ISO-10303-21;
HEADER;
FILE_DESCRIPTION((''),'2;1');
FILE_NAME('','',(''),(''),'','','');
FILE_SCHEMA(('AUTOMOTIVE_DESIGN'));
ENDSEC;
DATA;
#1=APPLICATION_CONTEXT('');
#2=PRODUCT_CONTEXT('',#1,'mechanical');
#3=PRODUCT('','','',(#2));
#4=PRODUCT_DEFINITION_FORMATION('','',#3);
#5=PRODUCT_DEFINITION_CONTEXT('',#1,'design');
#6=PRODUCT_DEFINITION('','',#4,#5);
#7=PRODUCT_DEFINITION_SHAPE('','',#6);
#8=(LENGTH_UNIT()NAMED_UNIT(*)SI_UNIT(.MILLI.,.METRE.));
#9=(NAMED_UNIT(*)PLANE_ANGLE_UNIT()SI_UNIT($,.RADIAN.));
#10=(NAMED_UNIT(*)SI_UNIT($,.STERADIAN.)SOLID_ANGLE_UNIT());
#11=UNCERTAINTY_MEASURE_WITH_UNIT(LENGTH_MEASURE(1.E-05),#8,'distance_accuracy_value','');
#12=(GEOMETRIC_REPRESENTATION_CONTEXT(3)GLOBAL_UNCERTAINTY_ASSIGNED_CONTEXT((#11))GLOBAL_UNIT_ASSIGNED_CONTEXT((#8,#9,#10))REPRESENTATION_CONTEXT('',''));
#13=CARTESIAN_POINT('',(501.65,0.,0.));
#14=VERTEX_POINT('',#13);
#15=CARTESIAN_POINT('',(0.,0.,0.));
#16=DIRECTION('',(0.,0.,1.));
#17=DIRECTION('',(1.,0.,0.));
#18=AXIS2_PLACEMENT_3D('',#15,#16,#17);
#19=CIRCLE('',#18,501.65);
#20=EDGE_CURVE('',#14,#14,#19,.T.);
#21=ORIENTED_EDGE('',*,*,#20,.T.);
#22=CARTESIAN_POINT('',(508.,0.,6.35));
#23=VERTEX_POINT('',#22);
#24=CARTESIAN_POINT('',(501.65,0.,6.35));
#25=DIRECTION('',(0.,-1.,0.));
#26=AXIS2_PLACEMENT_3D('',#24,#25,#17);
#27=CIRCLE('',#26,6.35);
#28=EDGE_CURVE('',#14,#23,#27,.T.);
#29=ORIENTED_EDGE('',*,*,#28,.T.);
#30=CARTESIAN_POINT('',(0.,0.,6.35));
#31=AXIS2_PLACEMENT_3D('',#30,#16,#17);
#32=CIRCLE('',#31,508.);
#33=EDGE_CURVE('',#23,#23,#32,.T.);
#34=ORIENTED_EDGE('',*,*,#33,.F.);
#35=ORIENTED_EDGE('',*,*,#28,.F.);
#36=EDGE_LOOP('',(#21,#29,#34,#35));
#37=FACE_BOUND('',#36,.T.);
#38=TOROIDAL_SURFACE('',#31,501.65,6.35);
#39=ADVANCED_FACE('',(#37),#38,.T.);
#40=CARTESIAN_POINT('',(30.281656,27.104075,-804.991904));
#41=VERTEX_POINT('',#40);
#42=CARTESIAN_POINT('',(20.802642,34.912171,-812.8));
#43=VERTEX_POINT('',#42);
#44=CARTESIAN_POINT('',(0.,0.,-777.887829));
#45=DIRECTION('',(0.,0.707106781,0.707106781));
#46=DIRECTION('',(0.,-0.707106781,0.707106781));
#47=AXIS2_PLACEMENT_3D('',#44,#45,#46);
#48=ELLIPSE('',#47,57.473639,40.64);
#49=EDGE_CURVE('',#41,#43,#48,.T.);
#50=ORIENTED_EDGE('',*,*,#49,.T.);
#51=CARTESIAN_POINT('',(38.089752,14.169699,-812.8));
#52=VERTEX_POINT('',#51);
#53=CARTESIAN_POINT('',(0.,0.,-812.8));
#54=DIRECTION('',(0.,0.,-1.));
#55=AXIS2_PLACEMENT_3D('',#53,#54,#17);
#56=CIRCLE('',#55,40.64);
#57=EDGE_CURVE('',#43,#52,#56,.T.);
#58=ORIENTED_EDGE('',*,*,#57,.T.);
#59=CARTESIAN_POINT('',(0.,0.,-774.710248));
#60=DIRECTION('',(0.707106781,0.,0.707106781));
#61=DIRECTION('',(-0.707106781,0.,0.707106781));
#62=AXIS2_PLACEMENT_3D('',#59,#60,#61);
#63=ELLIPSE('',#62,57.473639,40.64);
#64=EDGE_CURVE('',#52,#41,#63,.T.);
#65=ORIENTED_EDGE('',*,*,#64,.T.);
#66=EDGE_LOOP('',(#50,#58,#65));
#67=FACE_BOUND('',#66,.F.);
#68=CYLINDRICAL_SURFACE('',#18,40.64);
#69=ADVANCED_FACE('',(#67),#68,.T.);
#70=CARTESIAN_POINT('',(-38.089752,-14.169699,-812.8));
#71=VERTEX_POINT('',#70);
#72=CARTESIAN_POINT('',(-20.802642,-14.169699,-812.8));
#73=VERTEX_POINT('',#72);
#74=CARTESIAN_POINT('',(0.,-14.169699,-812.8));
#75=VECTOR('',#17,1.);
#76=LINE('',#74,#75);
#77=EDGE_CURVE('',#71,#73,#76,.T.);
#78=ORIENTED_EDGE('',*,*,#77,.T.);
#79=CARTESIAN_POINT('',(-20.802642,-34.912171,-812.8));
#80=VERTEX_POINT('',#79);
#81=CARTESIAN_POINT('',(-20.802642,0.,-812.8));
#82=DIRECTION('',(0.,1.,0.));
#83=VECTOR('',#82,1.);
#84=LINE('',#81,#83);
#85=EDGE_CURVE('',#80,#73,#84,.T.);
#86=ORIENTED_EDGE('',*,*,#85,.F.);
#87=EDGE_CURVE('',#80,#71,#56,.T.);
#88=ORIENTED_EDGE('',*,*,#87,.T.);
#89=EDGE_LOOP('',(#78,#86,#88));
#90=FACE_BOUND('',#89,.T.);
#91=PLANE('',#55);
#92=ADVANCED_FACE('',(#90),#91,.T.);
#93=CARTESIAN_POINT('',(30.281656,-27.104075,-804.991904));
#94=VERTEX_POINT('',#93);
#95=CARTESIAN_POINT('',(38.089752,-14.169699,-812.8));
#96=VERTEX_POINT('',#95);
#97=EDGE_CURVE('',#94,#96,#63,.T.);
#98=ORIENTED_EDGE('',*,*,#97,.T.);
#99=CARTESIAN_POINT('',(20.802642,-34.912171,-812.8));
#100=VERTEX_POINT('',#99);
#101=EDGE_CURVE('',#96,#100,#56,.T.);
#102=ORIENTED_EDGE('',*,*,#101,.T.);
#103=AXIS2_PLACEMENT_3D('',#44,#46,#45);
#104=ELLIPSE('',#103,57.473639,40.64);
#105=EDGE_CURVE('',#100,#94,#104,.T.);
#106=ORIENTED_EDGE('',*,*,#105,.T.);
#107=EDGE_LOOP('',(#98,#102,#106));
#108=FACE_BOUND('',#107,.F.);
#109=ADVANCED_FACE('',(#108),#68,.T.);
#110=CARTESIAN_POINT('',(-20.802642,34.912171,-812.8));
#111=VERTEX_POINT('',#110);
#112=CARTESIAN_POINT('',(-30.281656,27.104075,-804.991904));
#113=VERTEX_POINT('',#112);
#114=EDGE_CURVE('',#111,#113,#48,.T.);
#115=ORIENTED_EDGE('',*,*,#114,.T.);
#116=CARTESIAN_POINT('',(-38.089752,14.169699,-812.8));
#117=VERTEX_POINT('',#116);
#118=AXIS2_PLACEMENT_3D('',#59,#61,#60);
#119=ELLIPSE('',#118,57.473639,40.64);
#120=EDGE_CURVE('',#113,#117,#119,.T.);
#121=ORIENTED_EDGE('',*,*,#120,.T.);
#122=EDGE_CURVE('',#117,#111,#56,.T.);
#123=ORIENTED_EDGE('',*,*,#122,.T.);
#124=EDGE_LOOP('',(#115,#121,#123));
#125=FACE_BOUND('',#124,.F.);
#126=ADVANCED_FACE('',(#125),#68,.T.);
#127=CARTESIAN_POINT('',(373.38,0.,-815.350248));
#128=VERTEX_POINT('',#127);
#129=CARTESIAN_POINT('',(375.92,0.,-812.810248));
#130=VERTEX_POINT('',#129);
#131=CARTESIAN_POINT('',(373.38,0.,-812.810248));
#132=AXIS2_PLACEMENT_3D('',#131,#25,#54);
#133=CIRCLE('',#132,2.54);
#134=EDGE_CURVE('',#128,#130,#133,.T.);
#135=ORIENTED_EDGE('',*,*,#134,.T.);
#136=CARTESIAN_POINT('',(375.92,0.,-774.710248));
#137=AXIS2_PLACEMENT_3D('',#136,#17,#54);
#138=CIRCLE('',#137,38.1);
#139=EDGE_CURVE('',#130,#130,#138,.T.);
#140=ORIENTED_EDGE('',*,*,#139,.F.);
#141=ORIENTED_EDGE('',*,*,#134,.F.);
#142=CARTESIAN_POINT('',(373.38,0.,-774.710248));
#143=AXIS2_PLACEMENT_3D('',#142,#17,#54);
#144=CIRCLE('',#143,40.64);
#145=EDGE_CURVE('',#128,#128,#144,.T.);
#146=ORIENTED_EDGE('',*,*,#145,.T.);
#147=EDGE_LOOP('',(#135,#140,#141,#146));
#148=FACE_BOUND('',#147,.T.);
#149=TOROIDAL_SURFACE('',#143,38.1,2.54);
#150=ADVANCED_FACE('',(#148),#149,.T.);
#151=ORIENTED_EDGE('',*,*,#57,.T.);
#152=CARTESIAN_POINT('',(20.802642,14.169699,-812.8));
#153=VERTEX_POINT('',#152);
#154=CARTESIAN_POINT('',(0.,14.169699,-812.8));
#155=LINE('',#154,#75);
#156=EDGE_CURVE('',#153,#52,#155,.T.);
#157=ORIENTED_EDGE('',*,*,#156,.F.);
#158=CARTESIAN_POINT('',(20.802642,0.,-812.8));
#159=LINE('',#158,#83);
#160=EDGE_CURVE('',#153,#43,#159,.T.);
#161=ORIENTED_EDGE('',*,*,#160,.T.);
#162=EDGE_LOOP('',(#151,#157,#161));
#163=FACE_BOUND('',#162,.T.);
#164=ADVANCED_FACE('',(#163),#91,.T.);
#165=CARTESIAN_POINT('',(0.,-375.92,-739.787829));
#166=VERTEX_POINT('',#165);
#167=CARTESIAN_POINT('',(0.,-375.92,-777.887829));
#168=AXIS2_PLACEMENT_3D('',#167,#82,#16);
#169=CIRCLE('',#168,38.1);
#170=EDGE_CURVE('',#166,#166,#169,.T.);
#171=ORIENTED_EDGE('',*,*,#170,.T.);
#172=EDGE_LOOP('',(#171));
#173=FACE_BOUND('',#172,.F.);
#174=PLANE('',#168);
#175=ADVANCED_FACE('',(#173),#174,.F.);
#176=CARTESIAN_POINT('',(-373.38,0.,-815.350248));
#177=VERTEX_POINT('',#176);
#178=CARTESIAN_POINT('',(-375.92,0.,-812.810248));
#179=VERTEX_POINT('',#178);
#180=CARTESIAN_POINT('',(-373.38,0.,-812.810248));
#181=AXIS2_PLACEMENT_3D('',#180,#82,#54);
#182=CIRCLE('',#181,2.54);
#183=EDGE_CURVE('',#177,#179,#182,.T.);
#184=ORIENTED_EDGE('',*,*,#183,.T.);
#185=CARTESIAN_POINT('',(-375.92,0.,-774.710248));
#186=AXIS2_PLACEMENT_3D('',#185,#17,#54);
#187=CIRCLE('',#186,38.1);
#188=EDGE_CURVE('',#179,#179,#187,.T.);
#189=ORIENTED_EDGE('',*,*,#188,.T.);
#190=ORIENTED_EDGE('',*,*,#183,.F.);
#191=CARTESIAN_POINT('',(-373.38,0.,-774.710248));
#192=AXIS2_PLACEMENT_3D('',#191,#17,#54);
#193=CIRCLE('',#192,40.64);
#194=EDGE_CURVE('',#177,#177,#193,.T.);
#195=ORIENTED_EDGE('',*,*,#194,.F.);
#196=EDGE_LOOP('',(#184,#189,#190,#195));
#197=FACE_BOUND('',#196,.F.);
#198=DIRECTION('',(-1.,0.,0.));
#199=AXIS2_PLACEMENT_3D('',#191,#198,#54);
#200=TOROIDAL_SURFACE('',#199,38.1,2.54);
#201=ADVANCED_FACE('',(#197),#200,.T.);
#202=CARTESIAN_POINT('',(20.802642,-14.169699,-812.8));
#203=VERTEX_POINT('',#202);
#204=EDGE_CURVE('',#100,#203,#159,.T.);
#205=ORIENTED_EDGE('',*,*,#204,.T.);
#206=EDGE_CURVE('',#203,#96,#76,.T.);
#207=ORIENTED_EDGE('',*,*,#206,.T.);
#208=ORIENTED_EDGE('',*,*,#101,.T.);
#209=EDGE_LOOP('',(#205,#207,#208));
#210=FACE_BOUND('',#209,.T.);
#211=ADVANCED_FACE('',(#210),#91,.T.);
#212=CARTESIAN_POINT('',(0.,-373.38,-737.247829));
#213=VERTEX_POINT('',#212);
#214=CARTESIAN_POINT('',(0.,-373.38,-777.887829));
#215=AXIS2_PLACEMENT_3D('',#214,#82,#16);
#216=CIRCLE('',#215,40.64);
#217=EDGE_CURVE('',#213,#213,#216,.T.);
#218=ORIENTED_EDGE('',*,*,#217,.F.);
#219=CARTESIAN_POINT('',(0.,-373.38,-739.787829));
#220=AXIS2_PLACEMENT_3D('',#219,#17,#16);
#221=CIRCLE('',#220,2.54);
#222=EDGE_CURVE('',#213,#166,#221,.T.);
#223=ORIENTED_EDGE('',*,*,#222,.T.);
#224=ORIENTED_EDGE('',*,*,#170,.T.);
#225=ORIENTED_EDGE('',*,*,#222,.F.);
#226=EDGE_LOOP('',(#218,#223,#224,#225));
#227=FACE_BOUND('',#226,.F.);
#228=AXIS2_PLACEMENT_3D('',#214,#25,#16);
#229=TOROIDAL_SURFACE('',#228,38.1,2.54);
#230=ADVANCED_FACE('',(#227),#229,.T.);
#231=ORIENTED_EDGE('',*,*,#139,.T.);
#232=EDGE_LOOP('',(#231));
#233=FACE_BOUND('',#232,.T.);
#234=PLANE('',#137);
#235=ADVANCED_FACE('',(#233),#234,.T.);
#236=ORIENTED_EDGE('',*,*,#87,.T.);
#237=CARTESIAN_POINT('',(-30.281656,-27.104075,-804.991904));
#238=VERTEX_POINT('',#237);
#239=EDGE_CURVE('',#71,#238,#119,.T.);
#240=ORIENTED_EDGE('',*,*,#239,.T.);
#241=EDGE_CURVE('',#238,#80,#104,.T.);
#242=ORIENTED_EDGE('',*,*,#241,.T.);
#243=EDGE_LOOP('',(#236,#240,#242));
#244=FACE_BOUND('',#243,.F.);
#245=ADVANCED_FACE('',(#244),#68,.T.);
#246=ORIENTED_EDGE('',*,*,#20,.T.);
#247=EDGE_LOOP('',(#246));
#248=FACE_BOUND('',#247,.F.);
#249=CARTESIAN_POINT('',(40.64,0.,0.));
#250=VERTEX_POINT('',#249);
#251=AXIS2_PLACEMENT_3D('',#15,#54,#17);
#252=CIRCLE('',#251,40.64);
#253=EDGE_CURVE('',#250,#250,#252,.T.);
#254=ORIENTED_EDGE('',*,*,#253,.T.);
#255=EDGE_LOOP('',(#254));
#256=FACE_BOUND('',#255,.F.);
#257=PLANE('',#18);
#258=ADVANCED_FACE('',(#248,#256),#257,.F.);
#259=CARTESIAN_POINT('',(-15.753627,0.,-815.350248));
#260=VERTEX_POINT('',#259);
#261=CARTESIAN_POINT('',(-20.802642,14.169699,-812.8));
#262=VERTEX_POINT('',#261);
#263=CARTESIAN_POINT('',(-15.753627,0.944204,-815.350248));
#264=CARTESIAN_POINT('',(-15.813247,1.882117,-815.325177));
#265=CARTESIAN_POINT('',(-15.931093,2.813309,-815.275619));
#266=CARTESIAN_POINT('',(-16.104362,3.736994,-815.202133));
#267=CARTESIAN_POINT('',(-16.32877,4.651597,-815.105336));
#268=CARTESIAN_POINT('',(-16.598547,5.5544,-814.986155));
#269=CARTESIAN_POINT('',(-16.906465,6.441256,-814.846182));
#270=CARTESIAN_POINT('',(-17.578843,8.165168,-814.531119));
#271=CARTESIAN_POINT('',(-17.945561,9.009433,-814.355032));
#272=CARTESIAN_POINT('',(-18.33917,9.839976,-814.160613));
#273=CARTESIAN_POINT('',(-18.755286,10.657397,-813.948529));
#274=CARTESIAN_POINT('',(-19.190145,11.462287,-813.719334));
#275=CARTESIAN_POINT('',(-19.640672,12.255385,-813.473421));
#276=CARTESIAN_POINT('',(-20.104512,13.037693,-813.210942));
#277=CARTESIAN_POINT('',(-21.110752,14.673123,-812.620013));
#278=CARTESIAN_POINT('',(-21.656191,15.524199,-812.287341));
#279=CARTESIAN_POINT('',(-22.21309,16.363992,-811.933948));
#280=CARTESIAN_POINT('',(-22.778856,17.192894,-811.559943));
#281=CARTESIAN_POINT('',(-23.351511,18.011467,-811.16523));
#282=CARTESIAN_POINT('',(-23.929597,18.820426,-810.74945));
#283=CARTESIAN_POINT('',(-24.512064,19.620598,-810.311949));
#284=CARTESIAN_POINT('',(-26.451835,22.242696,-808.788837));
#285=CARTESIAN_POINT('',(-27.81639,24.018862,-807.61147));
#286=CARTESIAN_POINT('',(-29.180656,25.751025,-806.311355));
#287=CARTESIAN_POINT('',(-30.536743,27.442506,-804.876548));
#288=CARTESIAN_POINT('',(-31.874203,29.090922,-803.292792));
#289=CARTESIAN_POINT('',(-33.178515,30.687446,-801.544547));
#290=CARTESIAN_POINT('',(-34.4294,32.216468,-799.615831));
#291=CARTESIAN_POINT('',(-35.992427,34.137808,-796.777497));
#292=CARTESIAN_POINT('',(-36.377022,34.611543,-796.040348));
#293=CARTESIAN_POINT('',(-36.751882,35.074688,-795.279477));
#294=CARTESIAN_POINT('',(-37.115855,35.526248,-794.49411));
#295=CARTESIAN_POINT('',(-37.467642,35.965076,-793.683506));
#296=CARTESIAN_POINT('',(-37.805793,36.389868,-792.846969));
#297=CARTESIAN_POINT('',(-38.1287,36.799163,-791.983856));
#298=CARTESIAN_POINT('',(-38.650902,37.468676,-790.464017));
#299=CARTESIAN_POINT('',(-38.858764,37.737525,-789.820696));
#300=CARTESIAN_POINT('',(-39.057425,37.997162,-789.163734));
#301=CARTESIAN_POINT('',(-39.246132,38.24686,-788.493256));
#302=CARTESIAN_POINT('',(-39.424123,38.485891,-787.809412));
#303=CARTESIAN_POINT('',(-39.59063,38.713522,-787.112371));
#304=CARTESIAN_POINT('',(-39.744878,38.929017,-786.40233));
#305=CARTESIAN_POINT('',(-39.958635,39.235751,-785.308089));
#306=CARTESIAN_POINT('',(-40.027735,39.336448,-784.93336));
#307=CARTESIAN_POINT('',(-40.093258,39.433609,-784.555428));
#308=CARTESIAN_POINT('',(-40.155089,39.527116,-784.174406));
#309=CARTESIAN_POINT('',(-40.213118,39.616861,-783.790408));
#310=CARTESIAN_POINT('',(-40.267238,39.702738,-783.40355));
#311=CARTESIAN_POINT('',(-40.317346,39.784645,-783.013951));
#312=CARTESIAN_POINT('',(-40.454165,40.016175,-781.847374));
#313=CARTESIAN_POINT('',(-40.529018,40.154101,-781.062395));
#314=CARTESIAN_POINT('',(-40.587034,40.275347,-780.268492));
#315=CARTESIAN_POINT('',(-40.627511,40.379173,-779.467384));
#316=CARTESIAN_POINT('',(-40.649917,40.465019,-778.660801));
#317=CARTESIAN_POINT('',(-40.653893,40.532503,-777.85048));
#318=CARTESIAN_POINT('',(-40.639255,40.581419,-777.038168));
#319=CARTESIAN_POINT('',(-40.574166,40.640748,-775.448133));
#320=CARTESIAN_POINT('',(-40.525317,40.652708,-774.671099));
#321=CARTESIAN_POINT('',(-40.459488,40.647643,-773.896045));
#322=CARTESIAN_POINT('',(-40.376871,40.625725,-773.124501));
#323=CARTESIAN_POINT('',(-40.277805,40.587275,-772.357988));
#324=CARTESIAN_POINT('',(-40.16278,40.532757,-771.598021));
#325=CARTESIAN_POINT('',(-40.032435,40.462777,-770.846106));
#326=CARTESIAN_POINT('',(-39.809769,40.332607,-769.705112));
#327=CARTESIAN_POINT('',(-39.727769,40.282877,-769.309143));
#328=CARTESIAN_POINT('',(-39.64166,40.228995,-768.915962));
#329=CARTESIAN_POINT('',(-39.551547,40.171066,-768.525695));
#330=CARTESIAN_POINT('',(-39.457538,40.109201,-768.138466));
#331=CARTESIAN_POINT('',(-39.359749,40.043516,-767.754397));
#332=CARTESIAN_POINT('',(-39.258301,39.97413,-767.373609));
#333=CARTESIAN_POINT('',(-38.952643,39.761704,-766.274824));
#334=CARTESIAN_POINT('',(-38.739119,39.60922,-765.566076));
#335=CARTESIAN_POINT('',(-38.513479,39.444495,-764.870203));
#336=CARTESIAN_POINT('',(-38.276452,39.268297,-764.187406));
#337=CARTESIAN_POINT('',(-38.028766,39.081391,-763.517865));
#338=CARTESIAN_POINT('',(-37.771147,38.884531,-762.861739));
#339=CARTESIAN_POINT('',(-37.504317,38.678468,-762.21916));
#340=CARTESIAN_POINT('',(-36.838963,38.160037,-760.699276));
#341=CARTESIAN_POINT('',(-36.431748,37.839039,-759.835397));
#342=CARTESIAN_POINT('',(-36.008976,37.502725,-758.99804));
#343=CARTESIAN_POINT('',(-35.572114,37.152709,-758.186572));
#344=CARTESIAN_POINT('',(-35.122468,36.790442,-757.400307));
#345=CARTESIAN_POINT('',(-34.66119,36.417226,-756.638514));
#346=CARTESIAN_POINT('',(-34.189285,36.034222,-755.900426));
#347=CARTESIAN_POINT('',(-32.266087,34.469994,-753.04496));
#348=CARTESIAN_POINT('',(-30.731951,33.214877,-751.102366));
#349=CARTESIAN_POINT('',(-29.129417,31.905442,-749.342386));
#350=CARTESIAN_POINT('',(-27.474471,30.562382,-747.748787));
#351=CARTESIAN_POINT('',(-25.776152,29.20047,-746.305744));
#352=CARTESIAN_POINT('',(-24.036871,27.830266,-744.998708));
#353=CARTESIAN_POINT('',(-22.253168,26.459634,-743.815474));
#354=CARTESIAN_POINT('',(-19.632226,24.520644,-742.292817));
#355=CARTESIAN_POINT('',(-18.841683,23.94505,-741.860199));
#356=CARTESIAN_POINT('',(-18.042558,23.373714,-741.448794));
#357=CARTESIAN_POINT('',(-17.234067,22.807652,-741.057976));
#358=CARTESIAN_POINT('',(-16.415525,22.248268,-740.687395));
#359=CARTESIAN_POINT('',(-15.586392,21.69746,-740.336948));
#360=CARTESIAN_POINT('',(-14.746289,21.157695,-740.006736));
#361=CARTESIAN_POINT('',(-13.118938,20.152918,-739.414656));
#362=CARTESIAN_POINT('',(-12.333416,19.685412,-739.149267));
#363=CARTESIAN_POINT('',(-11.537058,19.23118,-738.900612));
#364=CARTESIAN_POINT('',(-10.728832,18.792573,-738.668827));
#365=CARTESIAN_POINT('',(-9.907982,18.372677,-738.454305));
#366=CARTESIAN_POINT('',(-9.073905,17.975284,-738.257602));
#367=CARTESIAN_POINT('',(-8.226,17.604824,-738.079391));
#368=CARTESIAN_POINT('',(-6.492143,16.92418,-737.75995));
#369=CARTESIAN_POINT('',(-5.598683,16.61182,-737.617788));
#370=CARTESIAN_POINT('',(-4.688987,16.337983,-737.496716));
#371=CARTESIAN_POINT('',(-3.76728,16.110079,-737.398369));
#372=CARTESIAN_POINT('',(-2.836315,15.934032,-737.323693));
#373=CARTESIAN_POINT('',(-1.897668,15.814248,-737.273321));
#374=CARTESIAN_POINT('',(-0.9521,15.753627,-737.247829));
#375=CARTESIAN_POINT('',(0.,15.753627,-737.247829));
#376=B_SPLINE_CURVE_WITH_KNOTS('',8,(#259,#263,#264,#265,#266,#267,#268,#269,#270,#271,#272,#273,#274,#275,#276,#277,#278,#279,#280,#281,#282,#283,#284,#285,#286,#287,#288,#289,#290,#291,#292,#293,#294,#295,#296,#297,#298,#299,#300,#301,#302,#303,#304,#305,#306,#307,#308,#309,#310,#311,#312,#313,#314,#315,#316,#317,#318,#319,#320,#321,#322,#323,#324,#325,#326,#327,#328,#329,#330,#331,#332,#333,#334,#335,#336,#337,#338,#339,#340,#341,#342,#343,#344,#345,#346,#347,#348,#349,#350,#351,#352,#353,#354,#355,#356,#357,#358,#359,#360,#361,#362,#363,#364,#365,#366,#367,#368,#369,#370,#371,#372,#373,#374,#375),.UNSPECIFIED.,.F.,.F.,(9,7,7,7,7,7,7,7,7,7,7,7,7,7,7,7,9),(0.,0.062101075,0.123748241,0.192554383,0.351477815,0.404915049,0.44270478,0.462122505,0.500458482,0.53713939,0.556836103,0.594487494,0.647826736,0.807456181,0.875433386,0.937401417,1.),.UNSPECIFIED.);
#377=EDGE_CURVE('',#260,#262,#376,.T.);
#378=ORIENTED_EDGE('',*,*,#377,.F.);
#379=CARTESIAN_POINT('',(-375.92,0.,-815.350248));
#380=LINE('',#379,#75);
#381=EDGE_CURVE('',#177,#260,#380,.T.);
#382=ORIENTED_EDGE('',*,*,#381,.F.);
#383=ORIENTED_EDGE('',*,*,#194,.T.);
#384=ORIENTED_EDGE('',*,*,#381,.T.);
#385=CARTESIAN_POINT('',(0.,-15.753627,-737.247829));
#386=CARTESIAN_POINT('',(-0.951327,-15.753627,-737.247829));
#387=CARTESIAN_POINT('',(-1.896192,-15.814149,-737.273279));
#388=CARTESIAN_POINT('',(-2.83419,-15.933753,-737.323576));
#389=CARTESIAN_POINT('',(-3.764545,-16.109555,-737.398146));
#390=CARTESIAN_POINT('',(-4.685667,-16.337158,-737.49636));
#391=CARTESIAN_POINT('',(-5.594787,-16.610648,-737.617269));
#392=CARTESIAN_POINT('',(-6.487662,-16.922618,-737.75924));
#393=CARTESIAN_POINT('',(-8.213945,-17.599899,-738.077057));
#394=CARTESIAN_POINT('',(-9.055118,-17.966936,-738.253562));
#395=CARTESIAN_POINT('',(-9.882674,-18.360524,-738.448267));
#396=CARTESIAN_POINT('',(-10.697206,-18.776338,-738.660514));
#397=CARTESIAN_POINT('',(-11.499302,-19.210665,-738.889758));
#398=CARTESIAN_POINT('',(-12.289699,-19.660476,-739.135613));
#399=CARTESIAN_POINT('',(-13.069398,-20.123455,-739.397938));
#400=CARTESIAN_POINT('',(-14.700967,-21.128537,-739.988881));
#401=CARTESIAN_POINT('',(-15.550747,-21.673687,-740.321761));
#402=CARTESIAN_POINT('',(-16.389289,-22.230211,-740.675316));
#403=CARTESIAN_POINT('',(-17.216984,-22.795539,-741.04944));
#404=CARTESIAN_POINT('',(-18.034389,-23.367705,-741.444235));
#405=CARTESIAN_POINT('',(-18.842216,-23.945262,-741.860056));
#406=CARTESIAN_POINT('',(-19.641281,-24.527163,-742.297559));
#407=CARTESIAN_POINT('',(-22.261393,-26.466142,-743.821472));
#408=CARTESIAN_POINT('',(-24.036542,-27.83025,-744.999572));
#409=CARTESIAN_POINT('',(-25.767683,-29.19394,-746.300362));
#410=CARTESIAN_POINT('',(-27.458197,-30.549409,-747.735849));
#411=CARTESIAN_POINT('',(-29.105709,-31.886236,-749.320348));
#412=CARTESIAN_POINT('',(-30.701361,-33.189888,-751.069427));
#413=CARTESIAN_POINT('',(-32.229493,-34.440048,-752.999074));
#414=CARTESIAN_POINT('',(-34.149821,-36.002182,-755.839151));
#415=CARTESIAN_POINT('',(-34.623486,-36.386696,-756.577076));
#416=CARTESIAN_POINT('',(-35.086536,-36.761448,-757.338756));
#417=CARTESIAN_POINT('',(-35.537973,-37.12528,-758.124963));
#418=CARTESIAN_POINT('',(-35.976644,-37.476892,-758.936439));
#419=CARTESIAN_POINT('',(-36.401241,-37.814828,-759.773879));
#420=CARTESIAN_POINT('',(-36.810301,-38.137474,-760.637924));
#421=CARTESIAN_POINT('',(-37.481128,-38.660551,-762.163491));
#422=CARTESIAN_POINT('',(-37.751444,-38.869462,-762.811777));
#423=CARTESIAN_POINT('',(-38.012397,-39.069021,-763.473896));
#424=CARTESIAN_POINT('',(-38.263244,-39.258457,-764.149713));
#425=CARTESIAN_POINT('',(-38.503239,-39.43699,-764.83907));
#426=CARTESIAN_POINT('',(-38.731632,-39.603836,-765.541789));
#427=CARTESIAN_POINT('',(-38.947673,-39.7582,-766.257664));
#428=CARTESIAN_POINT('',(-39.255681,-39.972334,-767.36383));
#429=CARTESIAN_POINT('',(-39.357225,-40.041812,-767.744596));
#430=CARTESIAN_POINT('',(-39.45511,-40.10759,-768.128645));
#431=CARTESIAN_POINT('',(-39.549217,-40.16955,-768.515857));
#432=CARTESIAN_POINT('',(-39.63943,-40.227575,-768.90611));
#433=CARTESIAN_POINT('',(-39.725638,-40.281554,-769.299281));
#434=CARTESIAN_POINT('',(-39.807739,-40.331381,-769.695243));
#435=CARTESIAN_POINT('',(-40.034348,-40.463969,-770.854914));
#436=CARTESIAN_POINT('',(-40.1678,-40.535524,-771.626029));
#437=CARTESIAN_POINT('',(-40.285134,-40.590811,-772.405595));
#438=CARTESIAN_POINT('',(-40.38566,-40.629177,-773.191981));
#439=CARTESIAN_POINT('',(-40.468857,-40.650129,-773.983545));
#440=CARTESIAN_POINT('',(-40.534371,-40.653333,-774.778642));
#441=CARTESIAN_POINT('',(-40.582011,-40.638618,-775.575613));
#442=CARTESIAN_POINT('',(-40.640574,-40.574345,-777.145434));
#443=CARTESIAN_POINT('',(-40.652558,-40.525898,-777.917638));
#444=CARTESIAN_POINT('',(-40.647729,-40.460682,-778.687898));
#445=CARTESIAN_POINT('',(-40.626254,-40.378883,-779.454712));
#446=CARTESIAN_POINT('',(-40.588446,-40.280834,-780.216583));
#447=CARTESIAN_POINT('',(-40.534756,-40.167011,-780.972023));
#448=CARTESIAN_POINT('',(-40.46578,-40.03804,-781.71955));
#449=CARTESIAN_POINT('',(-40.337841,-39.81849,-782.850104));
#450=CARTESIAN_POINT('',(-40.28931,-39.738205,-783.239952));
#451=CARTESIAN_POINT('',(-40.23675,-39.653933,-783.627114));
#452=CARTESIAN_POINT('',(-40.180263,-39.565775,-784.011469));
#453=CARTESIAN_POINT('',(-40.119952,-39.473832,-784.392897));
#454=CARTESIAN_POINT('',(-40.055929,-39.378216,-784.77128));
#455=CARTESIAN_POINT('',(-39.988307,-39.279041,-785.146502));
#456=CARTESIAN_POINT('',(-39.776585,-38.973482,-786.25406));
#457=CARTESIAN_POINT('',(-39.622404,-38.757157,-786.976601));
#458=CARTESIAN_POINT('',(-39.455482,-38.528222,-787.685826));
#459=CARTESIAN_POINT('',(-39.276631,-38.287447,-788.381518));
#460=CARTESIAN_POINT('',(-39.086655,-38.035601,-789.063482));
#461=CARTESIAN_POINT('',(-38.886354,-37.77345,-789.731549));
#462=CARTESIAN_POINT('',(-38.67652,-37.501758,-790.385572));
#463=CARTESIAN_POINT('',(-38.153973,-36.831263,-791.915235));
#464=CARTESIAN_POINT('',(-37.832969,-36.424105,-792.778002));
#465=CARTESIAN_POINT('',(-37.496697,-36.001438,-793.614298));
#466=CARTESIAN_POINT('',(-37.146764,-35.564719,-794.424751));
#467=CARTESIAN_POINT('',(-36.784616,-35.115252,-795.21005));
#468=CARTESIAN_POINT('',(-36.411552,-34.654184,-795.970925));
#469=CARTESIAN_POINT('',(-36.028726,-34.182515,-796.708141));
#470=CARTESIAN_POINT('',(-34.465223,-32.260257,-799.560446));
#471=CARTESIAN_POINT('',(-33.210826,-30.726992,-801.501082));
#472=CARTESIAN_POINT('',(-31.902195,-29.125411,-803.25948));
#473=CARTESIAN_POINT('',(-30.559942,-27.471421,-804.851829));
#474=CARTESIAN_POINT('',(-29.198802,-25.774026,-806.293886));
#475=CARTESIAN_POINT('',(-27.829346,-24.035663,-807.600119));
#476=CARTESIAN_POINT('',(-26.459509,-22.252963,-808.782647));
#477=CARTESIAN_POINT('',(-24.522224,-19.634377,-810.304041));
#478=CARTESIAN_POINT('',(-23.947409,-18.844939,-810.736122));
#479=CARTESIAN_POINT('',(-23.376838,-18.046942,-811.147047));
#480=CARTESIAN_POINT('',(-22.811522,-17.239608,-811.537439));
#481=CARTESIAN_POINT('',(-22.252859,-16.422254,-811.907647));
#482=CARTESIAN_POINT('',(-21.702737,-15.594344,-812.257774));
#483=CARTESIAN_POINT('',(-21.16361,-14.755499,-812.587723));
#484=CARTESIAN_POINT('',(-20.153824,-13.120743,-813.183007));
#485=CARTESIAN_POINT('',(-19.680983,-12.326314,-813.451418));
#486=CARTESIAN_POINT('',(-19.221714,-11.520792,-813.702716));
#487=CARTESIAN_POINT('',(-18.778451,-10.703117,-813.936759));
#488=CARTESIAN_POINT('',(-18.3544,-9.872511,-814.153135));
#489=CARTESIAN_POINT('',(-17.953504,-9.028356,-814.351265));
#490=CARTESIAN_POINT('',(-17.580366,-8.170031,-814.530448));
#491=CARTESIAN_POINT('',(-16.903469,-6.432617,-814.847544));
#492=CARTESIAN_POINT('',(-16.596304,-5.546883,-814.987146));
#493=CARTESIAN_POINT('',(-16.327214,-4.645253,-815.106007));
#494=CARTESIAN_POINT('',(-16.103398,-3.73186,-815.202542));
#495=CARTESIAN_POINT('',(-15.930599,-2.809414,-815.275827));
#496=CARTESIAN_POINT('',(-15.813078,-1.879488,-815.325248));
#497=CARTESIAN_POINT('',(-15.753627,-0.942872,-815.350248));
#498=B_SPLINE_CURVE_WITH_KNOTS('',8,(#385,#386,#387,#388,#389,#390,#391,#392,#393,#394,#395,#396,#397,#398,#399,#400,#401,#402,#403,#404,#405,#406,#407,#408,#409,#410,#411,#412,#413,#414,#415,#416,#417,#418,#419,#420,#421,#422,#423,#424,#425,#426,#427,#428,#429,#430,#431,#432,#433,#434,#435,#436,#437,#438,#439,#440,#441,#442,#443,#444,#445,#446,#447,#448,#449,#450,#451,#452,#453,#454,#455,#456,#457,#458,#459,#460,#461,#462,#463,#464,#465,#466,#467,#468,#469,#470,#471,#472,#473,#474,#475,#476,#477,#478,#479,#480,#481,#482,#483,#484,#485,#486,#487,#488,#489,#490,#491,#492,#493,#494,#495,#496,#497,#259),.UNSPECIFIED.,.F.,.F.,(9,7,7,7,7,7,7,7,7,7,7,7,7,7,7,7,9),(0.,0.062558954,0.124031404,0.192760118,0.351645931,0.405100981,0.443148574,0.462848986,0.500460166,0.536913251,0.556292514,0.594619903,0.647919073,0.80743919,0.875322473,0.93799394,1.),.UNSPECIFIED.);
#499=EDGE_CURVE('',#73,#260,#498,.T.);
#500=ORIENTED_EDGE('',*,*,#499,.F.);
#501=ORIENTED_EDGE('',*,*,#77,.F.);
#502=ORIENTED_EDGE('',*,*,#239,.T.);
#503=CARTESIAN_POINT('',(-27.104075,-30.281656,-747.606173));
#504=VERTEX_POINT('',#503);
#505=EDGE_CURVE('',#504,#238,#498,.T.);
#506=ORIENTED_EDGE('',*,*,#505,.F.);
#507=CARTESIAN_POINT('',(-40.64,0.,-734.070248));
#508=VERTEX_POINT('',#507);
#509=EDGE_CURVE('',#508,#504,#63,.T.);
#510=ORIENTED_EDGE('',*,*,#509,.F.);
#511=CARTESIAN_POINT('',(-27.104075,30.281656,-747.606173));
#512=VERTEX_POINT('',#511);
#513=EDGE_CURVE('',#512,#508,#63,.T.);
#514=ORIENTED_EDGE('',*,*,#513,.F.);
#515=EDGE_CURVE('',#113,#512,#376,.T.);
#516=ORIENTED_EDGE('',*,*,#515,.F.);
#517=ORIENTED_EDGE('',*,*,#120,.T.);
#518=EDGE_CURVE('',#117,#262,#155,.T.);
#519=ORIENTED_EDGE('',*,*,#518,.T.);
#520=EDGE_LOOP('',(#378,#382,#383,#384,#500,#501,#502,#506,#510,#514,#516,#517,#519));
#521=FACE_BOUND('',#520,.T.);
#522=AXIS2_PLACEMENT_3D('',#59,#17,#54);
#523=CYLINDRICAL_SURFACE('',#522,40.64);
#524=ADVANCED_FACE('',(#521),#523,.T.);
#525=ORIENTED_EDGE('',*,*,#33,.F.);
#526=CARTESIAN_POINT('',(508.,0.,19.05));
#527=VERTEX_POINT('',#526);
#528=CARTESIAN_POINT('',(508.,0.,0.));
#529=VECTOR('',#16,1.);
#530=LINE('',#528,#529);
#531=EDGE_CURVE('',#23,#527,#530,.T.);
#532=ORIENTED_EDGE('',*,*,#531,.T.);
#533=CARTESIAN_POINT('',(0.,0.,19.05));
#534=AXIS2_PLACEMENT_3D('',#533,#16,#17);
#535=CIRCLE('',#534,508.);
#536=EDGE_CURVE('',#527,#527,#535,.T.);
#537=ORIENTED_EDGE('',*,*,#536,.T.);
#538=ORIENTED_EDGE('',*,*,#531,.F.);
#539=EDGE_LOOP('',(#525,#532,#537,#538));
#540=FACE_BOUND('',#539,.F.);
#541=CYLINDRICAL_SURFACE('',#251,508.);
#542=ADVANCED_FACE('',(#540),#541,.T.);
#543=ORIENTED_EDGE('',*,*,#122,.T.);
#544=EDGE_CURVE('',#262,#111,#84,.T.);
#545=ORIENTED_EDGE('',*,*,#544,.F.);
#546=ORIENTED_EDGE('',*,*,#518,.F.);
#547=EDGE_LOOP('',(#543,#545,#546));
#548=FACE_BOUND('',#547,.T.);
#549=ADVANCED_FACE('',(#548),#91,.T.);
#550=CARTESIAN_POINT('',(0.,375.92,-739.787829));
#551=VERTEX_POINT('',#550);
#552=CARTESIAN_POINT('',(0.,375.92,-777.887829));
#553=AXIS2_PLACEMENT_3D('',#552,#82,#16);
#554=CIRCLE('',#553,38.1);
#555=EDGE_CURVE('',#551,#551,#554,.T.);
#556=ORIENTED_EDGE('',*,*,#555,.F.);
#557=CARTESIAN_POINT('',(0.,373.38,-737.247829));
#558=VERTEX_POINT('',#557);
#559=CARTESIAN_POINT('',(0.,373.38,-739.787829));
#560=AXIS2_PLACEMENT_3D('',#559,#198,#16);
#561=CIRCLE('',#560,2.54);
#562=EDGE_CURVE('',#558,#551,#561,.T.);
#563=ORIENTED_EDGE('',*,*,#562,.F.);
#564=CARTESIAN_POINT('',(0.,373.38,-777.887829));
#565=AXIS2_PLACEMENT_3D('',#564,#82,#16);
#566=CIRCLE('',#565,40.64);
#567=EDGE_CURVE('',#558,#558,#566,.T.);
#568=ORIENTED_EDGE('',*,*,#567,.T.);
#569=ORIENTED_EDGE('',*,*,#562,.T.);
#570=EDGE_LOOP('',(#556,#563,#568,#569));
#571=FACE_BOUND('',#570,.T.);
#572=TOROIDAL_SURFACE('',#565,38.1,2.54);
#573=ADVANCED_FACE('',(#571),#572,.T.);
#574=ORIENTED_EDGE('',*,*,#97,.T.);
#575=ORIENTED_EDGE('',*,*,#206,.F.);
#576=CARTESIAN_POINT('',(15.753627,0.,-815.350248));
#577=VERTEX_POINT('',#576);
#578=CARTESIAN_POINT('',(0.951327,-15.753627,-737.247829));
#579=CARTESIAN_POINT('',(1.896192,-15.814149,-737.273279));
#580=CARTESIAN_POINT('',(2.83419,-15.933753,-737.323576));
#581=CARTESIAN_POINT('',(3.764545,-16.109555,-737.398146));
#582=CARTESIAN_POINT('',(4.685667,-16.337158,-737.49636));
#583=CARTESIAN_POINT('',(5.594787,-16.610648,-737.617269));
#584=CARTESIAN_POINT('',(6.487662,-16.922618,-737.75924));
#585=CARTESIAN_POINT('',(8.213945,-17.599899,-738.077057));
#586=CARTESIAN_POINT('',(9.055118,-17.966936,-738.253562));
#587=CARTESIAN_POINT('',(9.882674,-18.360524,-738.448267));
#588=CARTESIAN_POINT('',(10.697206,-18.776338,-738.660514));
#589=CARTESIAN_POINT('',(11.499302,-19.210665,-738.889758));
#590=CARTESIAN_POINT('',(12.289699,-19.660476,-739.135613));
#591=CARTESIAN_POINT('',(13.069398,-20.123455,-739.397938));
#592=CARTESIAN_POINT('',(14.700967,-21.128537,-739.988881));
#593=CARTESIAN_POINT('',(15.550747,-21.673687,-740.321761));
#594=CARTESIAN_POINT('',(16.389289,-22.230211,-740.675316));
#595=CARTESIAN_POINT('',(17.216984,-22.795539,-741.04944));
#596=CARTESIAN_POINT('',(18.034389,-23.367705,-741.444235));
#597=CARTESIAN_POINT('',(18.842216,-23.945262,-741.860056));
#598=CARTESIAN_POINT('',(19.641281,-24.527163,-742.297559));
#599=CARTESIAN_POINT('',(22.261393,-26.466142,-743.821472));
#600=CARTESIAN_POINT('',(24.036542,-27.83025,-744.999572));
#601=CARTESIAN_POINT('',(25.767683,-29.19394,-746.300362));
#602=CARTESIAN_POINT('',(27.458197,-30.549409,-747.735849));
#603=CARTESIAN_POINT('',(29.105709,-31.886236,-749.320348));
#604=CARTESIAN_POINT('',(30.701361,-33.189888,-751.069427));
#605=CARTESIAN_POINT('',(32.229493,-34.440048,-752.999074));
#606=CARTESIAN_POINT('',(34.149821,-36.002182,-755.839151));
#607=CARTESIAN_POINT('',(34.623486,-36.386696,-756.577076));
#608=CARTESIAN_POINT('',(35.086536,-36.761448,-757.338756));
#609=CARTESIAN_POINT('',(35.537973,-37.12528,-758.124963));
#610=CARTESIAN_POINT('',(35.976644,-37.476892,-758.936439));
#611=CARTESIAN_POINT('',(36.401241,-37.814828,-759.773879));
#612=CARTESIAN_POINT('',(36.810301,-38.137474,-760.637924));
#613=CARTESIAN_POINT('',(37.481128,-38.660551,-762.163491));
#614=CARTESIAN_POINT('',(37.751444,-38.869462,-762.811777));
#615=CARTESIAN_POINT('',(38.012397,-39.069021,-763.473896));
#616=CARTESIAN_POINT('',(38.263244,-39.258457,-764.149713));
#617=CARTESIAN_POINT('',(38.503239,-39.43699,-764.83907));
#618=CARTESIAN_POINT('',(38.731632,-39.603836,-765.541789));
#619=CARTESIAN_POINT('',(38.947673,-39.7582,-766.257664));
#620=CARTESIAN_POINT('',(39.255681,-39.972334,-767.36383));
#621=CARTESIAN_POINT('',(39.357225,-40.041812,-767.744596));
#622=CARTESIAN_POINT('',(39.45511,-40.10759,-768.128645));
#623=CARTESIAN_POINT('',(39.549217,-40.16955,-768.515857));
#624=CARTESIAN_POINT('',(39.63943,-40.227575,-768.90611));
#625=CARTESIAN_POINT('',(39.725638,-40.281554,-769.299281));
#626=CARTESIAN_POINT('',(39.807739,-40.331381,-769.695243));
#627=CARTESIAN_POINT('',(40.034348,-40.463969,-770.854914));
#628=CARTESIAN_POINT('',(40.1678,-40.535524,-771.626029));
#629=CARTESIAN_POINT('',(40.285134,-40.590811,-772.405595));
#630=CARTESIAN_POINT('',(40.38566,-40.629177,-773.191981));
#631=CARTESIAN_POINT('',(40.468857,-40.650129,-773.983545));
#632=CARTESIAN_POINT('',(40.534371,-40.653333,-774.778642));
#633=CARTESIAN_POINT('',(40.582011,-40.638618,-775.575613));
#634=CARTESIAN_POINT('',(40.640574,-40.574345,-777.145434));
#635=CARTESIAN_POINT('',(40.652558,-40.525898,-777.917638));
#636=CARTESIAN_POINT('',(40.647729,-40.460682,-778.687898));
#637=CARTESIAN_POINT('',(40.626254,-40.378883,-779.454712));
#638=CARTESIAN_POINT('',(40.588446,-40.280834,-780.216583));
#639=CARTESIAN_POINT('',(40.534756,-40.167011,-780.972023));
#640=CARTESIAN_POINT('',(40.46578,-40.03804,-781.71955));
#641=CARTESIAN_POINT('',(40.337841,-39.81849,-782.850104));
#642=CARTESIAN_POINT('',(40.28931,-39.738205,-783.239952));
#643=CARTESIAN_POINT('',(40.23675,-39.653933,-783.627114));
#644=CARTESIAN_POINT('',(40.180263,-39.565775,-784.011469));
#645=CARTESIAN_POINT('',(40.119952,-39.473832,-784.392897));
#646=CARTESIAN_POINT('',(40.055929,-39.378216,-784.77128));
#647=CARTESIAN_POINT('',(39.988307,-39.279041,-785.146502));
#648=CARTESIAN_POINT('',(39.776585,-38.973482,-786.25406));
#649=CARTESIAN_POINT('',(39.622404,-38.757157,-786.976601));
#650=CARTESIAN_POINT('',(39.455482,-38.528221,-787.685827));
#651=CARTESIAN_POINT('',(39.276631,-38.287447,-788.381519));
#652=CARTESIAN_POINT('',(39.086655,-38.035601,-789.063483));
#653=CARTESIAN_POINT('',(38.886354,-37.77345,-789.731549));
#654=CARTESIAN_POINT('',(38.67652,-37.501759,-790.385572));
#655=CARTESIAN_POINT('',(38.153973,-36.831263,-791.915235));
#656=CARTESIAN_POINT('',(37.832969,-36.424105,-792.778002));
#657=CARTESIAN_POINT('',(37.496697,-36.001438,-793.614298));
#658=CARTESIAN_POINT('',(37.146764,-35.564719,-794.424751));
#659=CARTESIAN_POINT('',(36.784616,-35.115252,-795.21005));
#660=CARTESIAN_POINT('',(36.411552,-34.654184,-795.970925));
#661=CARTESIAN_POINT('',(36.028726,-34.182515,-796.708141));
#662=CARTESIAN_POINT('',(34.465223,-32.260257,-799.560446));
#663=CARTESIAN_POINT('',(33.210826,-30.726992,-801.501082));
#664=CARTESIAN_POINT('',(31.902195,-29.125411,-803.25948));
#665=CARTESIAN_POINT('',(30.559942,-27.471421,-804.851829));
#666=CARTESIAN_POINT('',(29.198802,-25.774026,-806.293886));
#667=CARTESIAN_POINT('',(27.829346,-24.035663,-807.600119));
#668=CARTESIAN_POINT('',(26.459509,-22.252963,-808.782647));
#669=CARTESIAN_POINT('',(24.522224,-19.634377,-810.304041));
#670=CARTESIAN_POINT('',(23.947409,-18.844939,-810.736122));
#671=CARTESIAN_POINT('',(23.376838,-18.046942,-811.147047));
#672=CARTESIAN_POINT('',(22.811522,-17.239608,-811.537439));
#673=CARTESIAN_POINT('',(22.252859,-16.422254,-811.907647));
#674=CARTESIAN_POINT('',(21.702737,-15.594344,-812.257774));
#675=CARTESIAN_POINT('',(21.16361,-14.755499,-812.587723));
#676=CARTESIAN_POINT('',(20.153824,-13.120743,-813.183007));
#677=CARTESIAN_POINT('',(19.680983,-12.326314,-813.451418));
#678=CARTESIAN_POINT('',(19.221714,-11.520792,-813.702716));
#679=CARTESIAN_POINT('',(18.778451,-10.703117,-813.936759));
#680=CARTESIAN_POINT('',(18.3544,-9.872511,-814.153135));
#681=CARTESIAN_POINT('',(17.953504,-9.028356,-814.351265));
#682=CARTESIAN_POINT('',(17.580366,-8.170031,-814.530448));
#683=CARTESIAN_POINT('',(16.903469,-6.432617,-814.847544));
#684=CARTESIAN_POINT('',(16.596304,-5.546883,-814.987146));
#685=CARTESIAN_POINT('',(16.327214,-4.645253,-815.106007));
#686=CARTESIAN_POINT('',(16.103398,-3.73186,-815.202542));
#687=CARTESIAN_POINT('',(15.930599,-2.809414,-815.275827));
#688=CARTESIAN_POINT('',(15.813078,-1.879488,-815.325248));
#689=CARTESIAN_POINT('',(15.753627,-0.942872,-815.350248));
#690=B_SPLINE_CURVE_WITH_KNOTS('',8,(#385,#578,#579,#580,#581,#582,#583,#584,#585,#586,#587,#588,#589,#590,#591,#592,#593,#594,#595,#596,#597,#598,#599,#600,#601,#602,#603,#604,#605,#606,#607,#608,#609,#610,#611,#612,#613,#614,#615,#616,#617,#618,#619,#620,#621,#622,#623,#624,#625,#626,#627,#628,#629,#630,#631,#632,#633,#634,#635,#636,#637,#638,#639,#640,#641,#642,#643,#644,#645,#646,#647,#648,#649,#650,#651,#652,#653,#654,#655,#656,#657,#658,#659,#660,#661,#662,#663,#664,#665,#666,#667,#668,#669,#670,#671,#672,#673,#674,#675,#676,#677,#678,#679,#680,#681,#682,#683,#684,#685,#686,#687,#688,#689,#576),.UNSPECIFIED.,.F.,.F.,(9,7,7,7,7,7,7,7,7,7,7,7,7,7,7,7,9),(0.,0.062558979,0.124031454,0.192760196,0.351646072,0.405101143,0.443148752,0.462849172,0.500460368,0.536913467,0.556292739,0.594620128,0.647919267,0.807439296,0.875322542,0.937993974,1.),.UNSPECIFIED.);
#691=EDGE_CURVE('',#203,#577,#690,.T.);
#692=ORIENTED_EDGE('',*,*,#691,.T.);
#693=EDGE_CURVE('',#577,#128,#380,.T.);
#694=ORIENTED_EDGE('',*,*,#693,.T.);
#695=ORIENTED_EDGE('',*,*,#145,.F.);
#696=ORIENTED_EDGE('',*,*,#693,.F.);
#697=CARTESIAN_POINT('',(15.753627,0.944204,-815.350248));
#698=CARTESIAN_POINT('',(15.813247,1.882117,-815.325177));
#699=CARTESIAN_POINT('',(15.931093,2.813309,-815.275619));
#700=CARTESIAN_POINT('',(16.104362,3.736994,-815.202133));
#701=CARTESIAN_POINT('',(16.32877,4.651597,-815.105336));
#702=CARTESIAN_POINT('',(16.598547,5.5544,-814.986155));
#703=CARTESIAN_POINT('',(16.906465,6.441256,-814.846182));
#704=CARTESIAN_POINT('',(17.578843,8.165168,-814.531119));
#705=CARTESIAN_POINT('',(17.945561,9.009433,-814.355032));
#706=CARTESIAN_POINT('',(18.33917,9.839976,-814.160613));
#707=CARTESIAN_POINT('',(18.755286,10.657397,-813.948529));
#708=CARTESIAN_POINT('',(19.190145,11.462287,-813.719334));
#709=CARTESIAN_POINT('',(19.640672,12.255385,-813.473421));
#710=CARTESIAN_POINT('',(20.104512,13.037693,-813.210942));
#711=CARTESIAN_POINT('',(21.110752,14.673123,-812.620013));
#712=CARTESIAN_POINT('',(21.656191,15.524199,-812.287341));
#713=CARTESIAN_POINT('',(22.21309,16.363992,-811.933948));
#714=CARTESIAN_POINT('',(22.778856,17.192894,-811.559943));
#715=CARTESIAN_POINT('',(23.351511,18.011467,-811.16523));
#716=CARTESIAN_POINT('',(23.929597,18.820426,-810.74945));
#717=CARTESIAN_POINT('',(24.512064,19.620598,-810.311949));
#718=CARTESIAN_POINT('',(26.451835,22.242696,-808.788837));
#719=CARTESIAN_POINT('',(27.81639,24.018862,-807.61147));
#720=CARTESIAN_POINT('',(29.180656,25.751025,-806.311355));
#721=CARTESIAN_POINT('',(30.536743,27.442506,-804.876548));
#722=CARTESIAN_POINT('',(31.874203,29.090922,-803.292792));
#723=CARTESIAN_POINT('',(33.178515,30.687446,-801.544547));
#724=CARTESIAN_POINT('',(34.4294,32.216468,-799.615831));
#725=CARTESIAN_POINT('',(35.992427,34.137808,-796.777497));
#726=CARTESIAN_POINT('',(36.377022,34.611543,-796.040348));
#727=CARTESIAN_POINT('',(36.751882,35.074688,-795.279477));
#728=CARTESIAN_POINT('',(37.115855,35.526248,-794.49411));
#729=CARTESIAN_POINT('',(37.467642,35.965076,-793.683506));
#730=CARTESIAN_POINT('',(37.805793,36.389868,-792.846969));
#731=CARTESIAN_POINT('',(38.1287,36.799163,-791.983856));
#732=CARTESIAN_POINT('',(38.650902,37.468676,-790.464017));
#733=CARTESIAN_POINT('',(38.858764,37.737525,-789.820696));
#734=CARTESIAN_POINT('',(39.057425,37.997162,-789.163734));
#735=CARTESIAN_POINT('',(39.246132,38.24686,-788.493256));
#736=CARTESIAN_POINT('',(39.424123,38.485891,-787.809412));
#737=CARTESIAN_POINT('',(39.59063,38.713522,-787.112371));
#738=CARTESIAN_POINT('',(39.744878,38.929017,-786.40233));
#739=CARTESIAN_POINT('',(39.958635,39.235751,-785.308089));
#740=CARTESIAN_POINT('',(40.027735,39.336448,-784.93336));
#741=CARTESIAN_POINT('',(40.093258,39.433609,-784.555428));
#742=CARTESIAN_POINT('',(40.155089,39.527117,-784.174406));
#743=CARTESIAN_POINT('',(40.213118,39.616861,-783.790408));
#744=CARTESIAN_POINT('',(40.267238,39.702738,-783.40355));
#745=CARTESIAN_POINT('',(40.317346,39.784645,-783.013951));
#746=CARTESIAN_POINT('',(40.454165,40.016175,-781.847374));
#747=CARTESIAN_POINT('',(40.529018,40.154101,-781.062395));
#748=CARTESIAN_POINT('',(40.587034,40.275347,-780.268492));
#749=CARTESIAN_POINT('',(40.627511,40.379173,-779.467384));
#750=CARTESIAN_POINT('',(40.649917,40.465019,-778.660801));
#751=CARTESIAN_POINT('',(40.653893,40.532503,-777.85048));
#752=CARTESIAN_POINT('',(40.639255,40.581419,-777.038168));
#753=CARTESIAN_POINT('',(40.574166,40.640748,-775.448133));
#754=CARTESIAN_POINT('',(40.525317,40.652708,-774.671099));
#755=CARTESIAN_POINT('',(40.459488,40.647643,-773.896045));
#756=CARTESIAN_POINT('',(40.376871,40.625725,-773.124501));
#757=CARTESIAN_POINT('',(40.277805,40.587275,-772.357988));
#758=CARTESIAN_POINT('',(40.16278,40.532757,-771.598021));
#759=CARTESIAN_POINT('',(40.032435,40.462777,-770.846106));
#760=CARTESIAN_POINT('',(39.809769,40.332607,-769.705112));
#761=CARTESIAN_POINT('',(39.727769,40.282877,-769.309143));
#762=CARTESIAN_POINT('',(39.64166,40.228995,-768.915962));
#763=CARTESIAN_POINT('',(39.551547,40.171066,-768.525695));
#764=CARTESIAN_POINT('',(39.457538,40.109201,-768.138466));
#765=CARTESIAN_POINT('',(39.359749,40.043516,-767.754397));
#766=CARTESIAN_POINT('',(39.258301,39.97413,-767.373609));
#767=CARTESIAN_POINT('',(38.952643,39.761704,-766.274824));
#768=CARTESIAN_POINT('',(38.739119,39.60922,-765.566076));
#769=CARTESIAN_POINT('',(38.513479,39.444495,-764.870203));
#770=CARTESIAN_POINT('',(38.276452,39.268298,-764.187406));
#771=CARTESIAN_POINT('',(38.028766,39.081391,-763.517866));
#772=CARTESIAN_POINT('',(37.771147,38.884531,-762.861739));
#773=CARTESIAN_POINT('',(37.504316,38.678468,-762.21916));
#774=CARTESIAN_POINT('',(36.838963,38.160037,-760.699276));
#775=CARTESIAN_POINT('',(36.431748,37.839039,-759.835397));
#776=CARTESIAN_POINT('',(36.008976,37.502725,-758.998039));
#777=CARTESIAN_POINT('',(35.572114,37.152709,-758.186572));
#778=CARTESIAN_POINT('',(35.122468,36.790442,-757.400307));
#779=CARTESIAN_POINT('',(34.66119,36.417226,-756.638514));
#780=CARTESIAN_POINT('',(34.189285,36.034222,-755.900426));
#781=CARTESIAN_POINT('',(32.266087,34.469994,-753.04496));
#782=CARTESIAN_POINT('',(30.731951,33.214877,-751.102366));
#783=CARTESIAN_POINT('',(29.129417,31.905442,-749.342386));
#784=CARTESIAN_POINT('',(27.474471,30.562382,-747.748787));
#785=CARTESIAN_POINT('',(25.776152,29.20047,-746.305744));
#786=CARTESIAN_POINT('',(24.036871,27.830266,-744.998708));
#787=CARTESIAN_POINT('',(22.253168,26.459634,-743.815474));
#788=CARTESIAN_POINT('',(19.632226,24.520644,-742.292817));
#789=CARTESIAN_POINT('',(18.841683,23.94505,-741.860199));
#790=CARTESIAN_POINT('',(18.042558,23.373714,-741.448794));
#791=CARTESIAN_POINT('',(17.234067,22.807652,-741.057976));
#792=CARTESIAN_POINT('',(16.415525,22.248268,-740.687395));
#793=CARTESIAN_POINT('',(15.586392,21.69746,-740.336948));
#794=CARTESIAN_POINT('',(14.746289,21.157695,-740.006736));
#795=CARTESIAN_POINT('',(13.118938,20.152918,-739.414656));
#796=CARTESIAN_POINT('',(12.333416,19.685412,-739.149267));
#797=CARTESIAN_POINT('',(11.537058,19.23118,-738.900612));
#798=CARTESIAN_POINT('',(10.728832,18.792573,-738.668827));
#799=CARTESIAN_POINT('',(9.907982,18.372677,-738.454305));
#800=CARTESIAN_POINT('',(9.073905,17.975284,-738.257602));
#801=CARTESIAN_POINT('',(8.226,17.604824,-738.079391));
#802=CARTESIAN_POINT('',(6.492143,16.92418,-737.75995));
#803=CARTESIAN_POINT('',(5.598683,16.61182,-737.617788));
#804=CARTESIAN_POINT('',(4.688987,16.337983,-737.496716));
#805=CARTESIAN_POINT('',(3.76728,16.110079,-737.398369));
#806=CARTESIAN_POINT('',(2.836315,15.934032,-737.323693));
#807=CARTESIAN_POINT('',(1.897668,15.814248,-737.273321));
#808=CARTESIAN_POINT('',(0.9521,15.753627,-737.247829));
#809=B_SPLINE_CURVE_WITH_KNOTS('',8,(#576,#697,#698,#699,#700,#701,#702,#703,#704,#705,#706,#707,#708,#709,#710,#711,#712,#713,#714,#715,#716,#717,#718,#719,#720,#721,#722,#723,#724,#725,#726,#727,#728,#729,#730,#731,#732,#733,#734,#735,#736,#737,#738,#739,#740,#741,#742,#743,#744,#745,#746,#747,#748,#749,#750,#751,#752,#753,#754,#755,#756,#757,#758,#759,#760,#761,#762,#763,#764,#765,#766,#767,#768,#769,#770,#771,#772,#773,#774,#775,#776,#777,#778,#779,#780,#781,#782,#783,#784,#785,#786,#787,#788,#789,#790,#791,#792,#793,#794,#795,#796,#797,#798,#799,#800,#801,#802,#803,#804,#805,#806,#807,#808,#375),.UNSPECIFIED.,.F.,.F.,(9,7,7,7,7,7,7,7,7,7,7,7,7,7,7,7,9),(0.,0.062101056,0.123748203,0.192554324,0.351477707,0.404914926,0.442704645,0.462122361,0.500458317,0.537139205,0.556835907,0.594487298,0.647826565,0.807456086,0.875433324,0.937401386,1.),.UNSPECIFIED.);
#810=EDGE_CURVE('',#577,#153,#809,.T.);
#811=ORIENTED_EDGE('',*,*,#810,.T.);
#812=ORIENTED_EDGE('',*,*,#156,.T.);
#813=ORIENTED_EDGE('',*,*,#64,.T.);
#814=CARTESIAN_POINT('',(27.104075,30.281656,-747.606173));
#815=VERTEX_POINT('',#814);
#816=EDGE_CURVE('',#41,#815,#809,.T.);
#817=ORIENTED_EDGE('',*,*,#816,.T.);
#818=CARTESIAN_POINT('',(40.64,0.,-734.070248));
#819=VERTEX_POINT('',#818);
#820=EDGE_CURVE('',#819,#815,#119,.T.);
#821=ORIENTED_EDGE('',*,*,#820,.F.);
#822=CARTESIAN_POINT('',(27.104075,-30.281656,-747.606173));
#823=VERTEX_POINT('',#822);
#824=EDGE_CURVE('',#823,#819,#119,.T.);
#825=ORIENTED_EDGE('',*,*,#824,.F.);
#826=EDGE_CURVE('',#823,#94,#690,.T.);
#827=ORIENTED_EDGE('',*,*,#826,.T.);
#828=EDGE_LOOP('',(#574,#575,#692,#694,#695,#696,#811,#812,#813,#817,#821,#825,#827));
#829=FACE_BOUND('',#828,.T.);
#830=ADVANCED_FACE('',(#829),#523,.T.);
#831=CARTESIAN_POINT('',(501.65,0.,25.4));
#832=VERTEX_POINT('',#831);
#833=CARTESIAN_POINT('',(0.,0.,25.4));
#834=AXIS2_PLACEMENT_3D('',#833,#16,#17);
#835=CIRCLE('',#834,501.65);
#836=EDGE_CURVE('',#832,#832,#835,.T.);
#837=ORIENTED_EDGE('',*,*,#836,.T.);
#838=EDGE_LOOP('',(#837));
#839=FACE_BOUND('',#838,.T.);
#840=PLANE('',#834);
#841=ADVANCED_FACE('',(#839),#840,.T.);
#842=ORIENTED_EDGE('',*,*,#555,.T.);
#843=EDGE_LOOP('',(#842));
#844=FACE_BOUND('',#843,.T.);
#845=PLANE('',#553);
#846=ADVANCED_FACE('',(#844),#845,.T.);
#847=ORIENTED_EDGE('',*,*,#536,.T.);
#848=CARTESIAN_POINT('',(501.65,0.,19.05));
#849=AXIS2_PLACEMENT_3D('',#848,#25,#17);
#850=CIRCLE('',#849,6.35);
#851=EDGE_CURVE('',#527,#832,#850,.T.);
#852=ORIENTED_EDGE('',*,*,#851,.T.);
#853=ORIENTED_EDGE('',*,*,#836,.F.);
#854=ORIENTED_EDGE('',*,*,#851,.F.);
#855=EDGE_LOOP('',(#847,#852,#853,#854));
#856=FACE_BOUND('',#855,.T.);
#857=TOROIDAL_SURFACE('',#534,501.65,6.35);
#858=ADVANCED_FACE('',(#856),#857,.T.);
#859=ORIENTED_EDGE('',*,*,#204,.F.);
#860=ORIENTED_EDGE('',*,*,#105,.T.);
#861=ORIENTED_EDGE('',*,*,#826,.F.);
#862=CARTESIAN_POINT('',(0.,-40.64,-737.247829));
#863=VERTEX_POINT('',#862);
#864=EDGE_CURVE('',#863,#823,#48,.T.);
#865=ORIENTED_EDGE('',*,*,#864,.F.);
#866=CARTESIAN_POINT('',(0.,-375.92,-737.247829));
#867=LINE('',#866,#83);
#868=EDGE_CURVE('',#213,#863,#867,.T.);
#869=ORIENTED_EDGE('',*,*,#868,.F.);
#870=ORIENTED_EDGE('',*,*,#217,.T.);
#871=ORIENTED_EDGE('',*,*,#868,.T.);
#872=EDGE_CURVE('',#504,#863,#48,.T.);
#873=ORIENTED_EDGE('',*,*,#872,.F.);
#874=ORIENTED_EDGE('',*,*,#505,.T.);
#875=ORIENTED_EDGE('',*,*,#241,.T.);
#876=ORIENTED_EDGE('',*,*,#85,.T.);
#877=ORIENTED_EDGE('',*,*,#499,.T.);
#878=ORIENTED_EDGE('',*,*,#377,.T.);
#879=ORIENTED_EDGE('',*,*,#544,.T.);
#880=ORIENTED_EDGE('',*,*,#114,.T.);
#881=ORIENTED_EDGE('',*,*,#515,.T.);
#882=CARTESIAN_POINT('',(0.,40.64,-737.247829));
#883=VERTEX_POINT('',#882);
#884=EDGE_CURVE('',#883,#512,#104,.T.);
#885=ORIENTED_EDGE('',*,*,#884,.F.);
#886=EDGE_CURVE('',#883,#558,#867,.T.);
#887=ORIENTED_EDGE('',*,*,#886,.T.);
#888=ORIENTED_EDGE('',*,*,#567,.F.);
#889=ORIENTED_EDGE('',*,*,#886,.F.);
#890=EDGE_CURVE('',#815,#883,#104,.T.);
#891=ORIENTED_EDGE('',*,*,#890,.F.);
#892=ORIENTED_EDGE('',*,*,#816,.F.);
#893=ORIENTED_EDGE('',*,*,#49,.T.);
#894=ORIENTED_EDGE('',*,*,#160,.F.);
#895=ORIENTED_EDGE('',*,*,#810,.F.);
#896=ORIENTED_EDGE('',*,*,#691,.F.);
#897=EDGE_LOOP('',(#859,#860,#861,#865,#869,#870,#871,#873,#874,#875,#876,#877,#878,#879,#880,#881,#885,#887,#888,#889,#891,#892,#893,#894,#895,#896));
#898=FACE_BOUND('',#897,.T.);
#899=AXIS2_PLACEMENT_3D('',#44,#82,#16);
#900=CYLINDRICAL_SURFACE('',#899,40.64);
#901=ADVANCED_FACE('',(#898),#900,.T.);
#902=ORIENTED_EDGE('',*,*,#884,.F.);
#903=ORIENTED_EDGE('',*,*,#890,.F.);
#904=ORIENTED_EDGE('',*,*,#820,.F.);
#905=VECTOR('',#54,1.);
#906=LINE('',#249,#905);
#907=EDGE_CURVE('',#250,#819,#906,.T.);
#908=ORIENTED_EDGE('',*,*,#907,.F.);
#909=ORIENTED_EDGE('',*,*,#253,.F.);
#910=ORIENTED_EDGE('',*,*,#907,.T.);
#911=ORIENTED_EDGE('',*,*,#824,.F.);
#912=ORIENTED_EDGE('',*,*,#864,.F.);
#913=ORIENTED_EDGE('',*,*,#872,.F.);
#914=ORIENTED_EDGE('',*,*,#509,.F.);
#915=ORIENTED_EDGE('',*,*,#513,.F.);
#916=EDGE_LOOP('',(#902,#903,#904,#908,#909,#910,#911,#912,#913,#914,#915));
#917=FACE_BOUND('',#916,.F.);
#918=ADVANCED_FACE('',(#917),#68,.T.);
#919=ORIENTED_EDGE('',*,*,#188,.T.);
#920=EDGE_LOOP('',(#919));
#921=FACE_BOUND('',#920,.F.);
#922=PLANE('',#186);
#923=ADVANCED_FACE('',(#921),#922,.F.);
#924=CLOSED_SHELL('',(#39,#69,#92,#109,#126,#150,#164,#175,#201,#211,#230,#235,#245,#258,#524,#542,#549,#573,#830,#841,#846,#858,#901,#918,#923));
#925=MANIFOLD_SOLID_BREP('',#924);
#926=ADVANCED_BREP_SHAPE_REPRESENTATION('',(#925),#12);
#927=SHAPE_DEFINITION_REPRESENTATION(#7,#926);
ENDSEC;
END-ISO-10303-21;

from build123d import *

# Parameters (mm, degrees)
SKETCH1_R           = 508
BASE_EXTRUDE_DEPTH  = 25.4
SKETCH5_R           = 40.64
BOSS_EXTRUDE1_DEPTH = 812.8
SKETCH6_R           = 40.64
BOSS_EXTRUDE2_DEPTH = 375.92
SKETCH7_R           = 40.64
BOSS_EXTRUDE3_DEPTH = 375.92
FILLET2_R           = 6.35
FILLET3_R           = 2.54


with BuildPart() as part:
    # Sketch1 → Base-Extrude (new body)
    with BuildSketch(Plane.XY):
        Circle(SKETCH1_R)
    extrude(amount=BASE_EXTRUDE_DEPTH)

    # Sketch5 → Boss-Extrude1 (add)
    with BuildSketch(Plane(origin=(0, 0, 0), x_dir=(-1, 0, 0), z_dir=(0, 0, -1))):
        with Locations(Location((0, 0, 0), (0, 0, 180))):
            Circle(SKETCH5_R)
    extrude(amount=BOSS_EXTRUDE1_DEPTH)

    # Sketch6 → Boss-Extrude2 (add, symmetric)
    with BuildSketch(Plane(origin=(0, 0, 0), x_dir=(0, 0, -1), z_dir=(1, 0, 0))):
        with Locations((774.71024772, 0)):
            Circle(SKETCH6_R)
    extrude(amount=BOSS_EXTRUDE2_DEPTH, both=True)

    # Sketch7 → Boss-Extrude3 (add, symmetric)
    with BuildSketch(Plane(origin=(0, 0, 0), x_dir=(1, 0, 0), z_dir=(0, 1, 0))):
        with Locations(Location((0, 777.887828837, 0), (0, 0, 270))):
            Circle(SKETCH7_R)
    extrude(amount=BOSS_EXTRUDE3_DEPTH, both=True)

    # Fillet2
    fillet2_edges = [part.edges().sort_by_distance(p)[0] for p in [
        (-508, 0, 0),
        (-508, 0, 25.4),
    ]]
    fillet(fillet2_edges, radius=FILLET2_R)

    # Fillet3
    fillet3_edges = [part.edges().sort_by_distance(p)[0] for p in [
        (-375.92, 0, -734.07024772),
        (375.92, 0, -734.07024772),
        (0, -375.92, -818.527828837),
        (0, 375.92, -818.527828837),
    ]]
    fillet(fillet3_edges, radius=FILLET3_R)


solid = part.part
